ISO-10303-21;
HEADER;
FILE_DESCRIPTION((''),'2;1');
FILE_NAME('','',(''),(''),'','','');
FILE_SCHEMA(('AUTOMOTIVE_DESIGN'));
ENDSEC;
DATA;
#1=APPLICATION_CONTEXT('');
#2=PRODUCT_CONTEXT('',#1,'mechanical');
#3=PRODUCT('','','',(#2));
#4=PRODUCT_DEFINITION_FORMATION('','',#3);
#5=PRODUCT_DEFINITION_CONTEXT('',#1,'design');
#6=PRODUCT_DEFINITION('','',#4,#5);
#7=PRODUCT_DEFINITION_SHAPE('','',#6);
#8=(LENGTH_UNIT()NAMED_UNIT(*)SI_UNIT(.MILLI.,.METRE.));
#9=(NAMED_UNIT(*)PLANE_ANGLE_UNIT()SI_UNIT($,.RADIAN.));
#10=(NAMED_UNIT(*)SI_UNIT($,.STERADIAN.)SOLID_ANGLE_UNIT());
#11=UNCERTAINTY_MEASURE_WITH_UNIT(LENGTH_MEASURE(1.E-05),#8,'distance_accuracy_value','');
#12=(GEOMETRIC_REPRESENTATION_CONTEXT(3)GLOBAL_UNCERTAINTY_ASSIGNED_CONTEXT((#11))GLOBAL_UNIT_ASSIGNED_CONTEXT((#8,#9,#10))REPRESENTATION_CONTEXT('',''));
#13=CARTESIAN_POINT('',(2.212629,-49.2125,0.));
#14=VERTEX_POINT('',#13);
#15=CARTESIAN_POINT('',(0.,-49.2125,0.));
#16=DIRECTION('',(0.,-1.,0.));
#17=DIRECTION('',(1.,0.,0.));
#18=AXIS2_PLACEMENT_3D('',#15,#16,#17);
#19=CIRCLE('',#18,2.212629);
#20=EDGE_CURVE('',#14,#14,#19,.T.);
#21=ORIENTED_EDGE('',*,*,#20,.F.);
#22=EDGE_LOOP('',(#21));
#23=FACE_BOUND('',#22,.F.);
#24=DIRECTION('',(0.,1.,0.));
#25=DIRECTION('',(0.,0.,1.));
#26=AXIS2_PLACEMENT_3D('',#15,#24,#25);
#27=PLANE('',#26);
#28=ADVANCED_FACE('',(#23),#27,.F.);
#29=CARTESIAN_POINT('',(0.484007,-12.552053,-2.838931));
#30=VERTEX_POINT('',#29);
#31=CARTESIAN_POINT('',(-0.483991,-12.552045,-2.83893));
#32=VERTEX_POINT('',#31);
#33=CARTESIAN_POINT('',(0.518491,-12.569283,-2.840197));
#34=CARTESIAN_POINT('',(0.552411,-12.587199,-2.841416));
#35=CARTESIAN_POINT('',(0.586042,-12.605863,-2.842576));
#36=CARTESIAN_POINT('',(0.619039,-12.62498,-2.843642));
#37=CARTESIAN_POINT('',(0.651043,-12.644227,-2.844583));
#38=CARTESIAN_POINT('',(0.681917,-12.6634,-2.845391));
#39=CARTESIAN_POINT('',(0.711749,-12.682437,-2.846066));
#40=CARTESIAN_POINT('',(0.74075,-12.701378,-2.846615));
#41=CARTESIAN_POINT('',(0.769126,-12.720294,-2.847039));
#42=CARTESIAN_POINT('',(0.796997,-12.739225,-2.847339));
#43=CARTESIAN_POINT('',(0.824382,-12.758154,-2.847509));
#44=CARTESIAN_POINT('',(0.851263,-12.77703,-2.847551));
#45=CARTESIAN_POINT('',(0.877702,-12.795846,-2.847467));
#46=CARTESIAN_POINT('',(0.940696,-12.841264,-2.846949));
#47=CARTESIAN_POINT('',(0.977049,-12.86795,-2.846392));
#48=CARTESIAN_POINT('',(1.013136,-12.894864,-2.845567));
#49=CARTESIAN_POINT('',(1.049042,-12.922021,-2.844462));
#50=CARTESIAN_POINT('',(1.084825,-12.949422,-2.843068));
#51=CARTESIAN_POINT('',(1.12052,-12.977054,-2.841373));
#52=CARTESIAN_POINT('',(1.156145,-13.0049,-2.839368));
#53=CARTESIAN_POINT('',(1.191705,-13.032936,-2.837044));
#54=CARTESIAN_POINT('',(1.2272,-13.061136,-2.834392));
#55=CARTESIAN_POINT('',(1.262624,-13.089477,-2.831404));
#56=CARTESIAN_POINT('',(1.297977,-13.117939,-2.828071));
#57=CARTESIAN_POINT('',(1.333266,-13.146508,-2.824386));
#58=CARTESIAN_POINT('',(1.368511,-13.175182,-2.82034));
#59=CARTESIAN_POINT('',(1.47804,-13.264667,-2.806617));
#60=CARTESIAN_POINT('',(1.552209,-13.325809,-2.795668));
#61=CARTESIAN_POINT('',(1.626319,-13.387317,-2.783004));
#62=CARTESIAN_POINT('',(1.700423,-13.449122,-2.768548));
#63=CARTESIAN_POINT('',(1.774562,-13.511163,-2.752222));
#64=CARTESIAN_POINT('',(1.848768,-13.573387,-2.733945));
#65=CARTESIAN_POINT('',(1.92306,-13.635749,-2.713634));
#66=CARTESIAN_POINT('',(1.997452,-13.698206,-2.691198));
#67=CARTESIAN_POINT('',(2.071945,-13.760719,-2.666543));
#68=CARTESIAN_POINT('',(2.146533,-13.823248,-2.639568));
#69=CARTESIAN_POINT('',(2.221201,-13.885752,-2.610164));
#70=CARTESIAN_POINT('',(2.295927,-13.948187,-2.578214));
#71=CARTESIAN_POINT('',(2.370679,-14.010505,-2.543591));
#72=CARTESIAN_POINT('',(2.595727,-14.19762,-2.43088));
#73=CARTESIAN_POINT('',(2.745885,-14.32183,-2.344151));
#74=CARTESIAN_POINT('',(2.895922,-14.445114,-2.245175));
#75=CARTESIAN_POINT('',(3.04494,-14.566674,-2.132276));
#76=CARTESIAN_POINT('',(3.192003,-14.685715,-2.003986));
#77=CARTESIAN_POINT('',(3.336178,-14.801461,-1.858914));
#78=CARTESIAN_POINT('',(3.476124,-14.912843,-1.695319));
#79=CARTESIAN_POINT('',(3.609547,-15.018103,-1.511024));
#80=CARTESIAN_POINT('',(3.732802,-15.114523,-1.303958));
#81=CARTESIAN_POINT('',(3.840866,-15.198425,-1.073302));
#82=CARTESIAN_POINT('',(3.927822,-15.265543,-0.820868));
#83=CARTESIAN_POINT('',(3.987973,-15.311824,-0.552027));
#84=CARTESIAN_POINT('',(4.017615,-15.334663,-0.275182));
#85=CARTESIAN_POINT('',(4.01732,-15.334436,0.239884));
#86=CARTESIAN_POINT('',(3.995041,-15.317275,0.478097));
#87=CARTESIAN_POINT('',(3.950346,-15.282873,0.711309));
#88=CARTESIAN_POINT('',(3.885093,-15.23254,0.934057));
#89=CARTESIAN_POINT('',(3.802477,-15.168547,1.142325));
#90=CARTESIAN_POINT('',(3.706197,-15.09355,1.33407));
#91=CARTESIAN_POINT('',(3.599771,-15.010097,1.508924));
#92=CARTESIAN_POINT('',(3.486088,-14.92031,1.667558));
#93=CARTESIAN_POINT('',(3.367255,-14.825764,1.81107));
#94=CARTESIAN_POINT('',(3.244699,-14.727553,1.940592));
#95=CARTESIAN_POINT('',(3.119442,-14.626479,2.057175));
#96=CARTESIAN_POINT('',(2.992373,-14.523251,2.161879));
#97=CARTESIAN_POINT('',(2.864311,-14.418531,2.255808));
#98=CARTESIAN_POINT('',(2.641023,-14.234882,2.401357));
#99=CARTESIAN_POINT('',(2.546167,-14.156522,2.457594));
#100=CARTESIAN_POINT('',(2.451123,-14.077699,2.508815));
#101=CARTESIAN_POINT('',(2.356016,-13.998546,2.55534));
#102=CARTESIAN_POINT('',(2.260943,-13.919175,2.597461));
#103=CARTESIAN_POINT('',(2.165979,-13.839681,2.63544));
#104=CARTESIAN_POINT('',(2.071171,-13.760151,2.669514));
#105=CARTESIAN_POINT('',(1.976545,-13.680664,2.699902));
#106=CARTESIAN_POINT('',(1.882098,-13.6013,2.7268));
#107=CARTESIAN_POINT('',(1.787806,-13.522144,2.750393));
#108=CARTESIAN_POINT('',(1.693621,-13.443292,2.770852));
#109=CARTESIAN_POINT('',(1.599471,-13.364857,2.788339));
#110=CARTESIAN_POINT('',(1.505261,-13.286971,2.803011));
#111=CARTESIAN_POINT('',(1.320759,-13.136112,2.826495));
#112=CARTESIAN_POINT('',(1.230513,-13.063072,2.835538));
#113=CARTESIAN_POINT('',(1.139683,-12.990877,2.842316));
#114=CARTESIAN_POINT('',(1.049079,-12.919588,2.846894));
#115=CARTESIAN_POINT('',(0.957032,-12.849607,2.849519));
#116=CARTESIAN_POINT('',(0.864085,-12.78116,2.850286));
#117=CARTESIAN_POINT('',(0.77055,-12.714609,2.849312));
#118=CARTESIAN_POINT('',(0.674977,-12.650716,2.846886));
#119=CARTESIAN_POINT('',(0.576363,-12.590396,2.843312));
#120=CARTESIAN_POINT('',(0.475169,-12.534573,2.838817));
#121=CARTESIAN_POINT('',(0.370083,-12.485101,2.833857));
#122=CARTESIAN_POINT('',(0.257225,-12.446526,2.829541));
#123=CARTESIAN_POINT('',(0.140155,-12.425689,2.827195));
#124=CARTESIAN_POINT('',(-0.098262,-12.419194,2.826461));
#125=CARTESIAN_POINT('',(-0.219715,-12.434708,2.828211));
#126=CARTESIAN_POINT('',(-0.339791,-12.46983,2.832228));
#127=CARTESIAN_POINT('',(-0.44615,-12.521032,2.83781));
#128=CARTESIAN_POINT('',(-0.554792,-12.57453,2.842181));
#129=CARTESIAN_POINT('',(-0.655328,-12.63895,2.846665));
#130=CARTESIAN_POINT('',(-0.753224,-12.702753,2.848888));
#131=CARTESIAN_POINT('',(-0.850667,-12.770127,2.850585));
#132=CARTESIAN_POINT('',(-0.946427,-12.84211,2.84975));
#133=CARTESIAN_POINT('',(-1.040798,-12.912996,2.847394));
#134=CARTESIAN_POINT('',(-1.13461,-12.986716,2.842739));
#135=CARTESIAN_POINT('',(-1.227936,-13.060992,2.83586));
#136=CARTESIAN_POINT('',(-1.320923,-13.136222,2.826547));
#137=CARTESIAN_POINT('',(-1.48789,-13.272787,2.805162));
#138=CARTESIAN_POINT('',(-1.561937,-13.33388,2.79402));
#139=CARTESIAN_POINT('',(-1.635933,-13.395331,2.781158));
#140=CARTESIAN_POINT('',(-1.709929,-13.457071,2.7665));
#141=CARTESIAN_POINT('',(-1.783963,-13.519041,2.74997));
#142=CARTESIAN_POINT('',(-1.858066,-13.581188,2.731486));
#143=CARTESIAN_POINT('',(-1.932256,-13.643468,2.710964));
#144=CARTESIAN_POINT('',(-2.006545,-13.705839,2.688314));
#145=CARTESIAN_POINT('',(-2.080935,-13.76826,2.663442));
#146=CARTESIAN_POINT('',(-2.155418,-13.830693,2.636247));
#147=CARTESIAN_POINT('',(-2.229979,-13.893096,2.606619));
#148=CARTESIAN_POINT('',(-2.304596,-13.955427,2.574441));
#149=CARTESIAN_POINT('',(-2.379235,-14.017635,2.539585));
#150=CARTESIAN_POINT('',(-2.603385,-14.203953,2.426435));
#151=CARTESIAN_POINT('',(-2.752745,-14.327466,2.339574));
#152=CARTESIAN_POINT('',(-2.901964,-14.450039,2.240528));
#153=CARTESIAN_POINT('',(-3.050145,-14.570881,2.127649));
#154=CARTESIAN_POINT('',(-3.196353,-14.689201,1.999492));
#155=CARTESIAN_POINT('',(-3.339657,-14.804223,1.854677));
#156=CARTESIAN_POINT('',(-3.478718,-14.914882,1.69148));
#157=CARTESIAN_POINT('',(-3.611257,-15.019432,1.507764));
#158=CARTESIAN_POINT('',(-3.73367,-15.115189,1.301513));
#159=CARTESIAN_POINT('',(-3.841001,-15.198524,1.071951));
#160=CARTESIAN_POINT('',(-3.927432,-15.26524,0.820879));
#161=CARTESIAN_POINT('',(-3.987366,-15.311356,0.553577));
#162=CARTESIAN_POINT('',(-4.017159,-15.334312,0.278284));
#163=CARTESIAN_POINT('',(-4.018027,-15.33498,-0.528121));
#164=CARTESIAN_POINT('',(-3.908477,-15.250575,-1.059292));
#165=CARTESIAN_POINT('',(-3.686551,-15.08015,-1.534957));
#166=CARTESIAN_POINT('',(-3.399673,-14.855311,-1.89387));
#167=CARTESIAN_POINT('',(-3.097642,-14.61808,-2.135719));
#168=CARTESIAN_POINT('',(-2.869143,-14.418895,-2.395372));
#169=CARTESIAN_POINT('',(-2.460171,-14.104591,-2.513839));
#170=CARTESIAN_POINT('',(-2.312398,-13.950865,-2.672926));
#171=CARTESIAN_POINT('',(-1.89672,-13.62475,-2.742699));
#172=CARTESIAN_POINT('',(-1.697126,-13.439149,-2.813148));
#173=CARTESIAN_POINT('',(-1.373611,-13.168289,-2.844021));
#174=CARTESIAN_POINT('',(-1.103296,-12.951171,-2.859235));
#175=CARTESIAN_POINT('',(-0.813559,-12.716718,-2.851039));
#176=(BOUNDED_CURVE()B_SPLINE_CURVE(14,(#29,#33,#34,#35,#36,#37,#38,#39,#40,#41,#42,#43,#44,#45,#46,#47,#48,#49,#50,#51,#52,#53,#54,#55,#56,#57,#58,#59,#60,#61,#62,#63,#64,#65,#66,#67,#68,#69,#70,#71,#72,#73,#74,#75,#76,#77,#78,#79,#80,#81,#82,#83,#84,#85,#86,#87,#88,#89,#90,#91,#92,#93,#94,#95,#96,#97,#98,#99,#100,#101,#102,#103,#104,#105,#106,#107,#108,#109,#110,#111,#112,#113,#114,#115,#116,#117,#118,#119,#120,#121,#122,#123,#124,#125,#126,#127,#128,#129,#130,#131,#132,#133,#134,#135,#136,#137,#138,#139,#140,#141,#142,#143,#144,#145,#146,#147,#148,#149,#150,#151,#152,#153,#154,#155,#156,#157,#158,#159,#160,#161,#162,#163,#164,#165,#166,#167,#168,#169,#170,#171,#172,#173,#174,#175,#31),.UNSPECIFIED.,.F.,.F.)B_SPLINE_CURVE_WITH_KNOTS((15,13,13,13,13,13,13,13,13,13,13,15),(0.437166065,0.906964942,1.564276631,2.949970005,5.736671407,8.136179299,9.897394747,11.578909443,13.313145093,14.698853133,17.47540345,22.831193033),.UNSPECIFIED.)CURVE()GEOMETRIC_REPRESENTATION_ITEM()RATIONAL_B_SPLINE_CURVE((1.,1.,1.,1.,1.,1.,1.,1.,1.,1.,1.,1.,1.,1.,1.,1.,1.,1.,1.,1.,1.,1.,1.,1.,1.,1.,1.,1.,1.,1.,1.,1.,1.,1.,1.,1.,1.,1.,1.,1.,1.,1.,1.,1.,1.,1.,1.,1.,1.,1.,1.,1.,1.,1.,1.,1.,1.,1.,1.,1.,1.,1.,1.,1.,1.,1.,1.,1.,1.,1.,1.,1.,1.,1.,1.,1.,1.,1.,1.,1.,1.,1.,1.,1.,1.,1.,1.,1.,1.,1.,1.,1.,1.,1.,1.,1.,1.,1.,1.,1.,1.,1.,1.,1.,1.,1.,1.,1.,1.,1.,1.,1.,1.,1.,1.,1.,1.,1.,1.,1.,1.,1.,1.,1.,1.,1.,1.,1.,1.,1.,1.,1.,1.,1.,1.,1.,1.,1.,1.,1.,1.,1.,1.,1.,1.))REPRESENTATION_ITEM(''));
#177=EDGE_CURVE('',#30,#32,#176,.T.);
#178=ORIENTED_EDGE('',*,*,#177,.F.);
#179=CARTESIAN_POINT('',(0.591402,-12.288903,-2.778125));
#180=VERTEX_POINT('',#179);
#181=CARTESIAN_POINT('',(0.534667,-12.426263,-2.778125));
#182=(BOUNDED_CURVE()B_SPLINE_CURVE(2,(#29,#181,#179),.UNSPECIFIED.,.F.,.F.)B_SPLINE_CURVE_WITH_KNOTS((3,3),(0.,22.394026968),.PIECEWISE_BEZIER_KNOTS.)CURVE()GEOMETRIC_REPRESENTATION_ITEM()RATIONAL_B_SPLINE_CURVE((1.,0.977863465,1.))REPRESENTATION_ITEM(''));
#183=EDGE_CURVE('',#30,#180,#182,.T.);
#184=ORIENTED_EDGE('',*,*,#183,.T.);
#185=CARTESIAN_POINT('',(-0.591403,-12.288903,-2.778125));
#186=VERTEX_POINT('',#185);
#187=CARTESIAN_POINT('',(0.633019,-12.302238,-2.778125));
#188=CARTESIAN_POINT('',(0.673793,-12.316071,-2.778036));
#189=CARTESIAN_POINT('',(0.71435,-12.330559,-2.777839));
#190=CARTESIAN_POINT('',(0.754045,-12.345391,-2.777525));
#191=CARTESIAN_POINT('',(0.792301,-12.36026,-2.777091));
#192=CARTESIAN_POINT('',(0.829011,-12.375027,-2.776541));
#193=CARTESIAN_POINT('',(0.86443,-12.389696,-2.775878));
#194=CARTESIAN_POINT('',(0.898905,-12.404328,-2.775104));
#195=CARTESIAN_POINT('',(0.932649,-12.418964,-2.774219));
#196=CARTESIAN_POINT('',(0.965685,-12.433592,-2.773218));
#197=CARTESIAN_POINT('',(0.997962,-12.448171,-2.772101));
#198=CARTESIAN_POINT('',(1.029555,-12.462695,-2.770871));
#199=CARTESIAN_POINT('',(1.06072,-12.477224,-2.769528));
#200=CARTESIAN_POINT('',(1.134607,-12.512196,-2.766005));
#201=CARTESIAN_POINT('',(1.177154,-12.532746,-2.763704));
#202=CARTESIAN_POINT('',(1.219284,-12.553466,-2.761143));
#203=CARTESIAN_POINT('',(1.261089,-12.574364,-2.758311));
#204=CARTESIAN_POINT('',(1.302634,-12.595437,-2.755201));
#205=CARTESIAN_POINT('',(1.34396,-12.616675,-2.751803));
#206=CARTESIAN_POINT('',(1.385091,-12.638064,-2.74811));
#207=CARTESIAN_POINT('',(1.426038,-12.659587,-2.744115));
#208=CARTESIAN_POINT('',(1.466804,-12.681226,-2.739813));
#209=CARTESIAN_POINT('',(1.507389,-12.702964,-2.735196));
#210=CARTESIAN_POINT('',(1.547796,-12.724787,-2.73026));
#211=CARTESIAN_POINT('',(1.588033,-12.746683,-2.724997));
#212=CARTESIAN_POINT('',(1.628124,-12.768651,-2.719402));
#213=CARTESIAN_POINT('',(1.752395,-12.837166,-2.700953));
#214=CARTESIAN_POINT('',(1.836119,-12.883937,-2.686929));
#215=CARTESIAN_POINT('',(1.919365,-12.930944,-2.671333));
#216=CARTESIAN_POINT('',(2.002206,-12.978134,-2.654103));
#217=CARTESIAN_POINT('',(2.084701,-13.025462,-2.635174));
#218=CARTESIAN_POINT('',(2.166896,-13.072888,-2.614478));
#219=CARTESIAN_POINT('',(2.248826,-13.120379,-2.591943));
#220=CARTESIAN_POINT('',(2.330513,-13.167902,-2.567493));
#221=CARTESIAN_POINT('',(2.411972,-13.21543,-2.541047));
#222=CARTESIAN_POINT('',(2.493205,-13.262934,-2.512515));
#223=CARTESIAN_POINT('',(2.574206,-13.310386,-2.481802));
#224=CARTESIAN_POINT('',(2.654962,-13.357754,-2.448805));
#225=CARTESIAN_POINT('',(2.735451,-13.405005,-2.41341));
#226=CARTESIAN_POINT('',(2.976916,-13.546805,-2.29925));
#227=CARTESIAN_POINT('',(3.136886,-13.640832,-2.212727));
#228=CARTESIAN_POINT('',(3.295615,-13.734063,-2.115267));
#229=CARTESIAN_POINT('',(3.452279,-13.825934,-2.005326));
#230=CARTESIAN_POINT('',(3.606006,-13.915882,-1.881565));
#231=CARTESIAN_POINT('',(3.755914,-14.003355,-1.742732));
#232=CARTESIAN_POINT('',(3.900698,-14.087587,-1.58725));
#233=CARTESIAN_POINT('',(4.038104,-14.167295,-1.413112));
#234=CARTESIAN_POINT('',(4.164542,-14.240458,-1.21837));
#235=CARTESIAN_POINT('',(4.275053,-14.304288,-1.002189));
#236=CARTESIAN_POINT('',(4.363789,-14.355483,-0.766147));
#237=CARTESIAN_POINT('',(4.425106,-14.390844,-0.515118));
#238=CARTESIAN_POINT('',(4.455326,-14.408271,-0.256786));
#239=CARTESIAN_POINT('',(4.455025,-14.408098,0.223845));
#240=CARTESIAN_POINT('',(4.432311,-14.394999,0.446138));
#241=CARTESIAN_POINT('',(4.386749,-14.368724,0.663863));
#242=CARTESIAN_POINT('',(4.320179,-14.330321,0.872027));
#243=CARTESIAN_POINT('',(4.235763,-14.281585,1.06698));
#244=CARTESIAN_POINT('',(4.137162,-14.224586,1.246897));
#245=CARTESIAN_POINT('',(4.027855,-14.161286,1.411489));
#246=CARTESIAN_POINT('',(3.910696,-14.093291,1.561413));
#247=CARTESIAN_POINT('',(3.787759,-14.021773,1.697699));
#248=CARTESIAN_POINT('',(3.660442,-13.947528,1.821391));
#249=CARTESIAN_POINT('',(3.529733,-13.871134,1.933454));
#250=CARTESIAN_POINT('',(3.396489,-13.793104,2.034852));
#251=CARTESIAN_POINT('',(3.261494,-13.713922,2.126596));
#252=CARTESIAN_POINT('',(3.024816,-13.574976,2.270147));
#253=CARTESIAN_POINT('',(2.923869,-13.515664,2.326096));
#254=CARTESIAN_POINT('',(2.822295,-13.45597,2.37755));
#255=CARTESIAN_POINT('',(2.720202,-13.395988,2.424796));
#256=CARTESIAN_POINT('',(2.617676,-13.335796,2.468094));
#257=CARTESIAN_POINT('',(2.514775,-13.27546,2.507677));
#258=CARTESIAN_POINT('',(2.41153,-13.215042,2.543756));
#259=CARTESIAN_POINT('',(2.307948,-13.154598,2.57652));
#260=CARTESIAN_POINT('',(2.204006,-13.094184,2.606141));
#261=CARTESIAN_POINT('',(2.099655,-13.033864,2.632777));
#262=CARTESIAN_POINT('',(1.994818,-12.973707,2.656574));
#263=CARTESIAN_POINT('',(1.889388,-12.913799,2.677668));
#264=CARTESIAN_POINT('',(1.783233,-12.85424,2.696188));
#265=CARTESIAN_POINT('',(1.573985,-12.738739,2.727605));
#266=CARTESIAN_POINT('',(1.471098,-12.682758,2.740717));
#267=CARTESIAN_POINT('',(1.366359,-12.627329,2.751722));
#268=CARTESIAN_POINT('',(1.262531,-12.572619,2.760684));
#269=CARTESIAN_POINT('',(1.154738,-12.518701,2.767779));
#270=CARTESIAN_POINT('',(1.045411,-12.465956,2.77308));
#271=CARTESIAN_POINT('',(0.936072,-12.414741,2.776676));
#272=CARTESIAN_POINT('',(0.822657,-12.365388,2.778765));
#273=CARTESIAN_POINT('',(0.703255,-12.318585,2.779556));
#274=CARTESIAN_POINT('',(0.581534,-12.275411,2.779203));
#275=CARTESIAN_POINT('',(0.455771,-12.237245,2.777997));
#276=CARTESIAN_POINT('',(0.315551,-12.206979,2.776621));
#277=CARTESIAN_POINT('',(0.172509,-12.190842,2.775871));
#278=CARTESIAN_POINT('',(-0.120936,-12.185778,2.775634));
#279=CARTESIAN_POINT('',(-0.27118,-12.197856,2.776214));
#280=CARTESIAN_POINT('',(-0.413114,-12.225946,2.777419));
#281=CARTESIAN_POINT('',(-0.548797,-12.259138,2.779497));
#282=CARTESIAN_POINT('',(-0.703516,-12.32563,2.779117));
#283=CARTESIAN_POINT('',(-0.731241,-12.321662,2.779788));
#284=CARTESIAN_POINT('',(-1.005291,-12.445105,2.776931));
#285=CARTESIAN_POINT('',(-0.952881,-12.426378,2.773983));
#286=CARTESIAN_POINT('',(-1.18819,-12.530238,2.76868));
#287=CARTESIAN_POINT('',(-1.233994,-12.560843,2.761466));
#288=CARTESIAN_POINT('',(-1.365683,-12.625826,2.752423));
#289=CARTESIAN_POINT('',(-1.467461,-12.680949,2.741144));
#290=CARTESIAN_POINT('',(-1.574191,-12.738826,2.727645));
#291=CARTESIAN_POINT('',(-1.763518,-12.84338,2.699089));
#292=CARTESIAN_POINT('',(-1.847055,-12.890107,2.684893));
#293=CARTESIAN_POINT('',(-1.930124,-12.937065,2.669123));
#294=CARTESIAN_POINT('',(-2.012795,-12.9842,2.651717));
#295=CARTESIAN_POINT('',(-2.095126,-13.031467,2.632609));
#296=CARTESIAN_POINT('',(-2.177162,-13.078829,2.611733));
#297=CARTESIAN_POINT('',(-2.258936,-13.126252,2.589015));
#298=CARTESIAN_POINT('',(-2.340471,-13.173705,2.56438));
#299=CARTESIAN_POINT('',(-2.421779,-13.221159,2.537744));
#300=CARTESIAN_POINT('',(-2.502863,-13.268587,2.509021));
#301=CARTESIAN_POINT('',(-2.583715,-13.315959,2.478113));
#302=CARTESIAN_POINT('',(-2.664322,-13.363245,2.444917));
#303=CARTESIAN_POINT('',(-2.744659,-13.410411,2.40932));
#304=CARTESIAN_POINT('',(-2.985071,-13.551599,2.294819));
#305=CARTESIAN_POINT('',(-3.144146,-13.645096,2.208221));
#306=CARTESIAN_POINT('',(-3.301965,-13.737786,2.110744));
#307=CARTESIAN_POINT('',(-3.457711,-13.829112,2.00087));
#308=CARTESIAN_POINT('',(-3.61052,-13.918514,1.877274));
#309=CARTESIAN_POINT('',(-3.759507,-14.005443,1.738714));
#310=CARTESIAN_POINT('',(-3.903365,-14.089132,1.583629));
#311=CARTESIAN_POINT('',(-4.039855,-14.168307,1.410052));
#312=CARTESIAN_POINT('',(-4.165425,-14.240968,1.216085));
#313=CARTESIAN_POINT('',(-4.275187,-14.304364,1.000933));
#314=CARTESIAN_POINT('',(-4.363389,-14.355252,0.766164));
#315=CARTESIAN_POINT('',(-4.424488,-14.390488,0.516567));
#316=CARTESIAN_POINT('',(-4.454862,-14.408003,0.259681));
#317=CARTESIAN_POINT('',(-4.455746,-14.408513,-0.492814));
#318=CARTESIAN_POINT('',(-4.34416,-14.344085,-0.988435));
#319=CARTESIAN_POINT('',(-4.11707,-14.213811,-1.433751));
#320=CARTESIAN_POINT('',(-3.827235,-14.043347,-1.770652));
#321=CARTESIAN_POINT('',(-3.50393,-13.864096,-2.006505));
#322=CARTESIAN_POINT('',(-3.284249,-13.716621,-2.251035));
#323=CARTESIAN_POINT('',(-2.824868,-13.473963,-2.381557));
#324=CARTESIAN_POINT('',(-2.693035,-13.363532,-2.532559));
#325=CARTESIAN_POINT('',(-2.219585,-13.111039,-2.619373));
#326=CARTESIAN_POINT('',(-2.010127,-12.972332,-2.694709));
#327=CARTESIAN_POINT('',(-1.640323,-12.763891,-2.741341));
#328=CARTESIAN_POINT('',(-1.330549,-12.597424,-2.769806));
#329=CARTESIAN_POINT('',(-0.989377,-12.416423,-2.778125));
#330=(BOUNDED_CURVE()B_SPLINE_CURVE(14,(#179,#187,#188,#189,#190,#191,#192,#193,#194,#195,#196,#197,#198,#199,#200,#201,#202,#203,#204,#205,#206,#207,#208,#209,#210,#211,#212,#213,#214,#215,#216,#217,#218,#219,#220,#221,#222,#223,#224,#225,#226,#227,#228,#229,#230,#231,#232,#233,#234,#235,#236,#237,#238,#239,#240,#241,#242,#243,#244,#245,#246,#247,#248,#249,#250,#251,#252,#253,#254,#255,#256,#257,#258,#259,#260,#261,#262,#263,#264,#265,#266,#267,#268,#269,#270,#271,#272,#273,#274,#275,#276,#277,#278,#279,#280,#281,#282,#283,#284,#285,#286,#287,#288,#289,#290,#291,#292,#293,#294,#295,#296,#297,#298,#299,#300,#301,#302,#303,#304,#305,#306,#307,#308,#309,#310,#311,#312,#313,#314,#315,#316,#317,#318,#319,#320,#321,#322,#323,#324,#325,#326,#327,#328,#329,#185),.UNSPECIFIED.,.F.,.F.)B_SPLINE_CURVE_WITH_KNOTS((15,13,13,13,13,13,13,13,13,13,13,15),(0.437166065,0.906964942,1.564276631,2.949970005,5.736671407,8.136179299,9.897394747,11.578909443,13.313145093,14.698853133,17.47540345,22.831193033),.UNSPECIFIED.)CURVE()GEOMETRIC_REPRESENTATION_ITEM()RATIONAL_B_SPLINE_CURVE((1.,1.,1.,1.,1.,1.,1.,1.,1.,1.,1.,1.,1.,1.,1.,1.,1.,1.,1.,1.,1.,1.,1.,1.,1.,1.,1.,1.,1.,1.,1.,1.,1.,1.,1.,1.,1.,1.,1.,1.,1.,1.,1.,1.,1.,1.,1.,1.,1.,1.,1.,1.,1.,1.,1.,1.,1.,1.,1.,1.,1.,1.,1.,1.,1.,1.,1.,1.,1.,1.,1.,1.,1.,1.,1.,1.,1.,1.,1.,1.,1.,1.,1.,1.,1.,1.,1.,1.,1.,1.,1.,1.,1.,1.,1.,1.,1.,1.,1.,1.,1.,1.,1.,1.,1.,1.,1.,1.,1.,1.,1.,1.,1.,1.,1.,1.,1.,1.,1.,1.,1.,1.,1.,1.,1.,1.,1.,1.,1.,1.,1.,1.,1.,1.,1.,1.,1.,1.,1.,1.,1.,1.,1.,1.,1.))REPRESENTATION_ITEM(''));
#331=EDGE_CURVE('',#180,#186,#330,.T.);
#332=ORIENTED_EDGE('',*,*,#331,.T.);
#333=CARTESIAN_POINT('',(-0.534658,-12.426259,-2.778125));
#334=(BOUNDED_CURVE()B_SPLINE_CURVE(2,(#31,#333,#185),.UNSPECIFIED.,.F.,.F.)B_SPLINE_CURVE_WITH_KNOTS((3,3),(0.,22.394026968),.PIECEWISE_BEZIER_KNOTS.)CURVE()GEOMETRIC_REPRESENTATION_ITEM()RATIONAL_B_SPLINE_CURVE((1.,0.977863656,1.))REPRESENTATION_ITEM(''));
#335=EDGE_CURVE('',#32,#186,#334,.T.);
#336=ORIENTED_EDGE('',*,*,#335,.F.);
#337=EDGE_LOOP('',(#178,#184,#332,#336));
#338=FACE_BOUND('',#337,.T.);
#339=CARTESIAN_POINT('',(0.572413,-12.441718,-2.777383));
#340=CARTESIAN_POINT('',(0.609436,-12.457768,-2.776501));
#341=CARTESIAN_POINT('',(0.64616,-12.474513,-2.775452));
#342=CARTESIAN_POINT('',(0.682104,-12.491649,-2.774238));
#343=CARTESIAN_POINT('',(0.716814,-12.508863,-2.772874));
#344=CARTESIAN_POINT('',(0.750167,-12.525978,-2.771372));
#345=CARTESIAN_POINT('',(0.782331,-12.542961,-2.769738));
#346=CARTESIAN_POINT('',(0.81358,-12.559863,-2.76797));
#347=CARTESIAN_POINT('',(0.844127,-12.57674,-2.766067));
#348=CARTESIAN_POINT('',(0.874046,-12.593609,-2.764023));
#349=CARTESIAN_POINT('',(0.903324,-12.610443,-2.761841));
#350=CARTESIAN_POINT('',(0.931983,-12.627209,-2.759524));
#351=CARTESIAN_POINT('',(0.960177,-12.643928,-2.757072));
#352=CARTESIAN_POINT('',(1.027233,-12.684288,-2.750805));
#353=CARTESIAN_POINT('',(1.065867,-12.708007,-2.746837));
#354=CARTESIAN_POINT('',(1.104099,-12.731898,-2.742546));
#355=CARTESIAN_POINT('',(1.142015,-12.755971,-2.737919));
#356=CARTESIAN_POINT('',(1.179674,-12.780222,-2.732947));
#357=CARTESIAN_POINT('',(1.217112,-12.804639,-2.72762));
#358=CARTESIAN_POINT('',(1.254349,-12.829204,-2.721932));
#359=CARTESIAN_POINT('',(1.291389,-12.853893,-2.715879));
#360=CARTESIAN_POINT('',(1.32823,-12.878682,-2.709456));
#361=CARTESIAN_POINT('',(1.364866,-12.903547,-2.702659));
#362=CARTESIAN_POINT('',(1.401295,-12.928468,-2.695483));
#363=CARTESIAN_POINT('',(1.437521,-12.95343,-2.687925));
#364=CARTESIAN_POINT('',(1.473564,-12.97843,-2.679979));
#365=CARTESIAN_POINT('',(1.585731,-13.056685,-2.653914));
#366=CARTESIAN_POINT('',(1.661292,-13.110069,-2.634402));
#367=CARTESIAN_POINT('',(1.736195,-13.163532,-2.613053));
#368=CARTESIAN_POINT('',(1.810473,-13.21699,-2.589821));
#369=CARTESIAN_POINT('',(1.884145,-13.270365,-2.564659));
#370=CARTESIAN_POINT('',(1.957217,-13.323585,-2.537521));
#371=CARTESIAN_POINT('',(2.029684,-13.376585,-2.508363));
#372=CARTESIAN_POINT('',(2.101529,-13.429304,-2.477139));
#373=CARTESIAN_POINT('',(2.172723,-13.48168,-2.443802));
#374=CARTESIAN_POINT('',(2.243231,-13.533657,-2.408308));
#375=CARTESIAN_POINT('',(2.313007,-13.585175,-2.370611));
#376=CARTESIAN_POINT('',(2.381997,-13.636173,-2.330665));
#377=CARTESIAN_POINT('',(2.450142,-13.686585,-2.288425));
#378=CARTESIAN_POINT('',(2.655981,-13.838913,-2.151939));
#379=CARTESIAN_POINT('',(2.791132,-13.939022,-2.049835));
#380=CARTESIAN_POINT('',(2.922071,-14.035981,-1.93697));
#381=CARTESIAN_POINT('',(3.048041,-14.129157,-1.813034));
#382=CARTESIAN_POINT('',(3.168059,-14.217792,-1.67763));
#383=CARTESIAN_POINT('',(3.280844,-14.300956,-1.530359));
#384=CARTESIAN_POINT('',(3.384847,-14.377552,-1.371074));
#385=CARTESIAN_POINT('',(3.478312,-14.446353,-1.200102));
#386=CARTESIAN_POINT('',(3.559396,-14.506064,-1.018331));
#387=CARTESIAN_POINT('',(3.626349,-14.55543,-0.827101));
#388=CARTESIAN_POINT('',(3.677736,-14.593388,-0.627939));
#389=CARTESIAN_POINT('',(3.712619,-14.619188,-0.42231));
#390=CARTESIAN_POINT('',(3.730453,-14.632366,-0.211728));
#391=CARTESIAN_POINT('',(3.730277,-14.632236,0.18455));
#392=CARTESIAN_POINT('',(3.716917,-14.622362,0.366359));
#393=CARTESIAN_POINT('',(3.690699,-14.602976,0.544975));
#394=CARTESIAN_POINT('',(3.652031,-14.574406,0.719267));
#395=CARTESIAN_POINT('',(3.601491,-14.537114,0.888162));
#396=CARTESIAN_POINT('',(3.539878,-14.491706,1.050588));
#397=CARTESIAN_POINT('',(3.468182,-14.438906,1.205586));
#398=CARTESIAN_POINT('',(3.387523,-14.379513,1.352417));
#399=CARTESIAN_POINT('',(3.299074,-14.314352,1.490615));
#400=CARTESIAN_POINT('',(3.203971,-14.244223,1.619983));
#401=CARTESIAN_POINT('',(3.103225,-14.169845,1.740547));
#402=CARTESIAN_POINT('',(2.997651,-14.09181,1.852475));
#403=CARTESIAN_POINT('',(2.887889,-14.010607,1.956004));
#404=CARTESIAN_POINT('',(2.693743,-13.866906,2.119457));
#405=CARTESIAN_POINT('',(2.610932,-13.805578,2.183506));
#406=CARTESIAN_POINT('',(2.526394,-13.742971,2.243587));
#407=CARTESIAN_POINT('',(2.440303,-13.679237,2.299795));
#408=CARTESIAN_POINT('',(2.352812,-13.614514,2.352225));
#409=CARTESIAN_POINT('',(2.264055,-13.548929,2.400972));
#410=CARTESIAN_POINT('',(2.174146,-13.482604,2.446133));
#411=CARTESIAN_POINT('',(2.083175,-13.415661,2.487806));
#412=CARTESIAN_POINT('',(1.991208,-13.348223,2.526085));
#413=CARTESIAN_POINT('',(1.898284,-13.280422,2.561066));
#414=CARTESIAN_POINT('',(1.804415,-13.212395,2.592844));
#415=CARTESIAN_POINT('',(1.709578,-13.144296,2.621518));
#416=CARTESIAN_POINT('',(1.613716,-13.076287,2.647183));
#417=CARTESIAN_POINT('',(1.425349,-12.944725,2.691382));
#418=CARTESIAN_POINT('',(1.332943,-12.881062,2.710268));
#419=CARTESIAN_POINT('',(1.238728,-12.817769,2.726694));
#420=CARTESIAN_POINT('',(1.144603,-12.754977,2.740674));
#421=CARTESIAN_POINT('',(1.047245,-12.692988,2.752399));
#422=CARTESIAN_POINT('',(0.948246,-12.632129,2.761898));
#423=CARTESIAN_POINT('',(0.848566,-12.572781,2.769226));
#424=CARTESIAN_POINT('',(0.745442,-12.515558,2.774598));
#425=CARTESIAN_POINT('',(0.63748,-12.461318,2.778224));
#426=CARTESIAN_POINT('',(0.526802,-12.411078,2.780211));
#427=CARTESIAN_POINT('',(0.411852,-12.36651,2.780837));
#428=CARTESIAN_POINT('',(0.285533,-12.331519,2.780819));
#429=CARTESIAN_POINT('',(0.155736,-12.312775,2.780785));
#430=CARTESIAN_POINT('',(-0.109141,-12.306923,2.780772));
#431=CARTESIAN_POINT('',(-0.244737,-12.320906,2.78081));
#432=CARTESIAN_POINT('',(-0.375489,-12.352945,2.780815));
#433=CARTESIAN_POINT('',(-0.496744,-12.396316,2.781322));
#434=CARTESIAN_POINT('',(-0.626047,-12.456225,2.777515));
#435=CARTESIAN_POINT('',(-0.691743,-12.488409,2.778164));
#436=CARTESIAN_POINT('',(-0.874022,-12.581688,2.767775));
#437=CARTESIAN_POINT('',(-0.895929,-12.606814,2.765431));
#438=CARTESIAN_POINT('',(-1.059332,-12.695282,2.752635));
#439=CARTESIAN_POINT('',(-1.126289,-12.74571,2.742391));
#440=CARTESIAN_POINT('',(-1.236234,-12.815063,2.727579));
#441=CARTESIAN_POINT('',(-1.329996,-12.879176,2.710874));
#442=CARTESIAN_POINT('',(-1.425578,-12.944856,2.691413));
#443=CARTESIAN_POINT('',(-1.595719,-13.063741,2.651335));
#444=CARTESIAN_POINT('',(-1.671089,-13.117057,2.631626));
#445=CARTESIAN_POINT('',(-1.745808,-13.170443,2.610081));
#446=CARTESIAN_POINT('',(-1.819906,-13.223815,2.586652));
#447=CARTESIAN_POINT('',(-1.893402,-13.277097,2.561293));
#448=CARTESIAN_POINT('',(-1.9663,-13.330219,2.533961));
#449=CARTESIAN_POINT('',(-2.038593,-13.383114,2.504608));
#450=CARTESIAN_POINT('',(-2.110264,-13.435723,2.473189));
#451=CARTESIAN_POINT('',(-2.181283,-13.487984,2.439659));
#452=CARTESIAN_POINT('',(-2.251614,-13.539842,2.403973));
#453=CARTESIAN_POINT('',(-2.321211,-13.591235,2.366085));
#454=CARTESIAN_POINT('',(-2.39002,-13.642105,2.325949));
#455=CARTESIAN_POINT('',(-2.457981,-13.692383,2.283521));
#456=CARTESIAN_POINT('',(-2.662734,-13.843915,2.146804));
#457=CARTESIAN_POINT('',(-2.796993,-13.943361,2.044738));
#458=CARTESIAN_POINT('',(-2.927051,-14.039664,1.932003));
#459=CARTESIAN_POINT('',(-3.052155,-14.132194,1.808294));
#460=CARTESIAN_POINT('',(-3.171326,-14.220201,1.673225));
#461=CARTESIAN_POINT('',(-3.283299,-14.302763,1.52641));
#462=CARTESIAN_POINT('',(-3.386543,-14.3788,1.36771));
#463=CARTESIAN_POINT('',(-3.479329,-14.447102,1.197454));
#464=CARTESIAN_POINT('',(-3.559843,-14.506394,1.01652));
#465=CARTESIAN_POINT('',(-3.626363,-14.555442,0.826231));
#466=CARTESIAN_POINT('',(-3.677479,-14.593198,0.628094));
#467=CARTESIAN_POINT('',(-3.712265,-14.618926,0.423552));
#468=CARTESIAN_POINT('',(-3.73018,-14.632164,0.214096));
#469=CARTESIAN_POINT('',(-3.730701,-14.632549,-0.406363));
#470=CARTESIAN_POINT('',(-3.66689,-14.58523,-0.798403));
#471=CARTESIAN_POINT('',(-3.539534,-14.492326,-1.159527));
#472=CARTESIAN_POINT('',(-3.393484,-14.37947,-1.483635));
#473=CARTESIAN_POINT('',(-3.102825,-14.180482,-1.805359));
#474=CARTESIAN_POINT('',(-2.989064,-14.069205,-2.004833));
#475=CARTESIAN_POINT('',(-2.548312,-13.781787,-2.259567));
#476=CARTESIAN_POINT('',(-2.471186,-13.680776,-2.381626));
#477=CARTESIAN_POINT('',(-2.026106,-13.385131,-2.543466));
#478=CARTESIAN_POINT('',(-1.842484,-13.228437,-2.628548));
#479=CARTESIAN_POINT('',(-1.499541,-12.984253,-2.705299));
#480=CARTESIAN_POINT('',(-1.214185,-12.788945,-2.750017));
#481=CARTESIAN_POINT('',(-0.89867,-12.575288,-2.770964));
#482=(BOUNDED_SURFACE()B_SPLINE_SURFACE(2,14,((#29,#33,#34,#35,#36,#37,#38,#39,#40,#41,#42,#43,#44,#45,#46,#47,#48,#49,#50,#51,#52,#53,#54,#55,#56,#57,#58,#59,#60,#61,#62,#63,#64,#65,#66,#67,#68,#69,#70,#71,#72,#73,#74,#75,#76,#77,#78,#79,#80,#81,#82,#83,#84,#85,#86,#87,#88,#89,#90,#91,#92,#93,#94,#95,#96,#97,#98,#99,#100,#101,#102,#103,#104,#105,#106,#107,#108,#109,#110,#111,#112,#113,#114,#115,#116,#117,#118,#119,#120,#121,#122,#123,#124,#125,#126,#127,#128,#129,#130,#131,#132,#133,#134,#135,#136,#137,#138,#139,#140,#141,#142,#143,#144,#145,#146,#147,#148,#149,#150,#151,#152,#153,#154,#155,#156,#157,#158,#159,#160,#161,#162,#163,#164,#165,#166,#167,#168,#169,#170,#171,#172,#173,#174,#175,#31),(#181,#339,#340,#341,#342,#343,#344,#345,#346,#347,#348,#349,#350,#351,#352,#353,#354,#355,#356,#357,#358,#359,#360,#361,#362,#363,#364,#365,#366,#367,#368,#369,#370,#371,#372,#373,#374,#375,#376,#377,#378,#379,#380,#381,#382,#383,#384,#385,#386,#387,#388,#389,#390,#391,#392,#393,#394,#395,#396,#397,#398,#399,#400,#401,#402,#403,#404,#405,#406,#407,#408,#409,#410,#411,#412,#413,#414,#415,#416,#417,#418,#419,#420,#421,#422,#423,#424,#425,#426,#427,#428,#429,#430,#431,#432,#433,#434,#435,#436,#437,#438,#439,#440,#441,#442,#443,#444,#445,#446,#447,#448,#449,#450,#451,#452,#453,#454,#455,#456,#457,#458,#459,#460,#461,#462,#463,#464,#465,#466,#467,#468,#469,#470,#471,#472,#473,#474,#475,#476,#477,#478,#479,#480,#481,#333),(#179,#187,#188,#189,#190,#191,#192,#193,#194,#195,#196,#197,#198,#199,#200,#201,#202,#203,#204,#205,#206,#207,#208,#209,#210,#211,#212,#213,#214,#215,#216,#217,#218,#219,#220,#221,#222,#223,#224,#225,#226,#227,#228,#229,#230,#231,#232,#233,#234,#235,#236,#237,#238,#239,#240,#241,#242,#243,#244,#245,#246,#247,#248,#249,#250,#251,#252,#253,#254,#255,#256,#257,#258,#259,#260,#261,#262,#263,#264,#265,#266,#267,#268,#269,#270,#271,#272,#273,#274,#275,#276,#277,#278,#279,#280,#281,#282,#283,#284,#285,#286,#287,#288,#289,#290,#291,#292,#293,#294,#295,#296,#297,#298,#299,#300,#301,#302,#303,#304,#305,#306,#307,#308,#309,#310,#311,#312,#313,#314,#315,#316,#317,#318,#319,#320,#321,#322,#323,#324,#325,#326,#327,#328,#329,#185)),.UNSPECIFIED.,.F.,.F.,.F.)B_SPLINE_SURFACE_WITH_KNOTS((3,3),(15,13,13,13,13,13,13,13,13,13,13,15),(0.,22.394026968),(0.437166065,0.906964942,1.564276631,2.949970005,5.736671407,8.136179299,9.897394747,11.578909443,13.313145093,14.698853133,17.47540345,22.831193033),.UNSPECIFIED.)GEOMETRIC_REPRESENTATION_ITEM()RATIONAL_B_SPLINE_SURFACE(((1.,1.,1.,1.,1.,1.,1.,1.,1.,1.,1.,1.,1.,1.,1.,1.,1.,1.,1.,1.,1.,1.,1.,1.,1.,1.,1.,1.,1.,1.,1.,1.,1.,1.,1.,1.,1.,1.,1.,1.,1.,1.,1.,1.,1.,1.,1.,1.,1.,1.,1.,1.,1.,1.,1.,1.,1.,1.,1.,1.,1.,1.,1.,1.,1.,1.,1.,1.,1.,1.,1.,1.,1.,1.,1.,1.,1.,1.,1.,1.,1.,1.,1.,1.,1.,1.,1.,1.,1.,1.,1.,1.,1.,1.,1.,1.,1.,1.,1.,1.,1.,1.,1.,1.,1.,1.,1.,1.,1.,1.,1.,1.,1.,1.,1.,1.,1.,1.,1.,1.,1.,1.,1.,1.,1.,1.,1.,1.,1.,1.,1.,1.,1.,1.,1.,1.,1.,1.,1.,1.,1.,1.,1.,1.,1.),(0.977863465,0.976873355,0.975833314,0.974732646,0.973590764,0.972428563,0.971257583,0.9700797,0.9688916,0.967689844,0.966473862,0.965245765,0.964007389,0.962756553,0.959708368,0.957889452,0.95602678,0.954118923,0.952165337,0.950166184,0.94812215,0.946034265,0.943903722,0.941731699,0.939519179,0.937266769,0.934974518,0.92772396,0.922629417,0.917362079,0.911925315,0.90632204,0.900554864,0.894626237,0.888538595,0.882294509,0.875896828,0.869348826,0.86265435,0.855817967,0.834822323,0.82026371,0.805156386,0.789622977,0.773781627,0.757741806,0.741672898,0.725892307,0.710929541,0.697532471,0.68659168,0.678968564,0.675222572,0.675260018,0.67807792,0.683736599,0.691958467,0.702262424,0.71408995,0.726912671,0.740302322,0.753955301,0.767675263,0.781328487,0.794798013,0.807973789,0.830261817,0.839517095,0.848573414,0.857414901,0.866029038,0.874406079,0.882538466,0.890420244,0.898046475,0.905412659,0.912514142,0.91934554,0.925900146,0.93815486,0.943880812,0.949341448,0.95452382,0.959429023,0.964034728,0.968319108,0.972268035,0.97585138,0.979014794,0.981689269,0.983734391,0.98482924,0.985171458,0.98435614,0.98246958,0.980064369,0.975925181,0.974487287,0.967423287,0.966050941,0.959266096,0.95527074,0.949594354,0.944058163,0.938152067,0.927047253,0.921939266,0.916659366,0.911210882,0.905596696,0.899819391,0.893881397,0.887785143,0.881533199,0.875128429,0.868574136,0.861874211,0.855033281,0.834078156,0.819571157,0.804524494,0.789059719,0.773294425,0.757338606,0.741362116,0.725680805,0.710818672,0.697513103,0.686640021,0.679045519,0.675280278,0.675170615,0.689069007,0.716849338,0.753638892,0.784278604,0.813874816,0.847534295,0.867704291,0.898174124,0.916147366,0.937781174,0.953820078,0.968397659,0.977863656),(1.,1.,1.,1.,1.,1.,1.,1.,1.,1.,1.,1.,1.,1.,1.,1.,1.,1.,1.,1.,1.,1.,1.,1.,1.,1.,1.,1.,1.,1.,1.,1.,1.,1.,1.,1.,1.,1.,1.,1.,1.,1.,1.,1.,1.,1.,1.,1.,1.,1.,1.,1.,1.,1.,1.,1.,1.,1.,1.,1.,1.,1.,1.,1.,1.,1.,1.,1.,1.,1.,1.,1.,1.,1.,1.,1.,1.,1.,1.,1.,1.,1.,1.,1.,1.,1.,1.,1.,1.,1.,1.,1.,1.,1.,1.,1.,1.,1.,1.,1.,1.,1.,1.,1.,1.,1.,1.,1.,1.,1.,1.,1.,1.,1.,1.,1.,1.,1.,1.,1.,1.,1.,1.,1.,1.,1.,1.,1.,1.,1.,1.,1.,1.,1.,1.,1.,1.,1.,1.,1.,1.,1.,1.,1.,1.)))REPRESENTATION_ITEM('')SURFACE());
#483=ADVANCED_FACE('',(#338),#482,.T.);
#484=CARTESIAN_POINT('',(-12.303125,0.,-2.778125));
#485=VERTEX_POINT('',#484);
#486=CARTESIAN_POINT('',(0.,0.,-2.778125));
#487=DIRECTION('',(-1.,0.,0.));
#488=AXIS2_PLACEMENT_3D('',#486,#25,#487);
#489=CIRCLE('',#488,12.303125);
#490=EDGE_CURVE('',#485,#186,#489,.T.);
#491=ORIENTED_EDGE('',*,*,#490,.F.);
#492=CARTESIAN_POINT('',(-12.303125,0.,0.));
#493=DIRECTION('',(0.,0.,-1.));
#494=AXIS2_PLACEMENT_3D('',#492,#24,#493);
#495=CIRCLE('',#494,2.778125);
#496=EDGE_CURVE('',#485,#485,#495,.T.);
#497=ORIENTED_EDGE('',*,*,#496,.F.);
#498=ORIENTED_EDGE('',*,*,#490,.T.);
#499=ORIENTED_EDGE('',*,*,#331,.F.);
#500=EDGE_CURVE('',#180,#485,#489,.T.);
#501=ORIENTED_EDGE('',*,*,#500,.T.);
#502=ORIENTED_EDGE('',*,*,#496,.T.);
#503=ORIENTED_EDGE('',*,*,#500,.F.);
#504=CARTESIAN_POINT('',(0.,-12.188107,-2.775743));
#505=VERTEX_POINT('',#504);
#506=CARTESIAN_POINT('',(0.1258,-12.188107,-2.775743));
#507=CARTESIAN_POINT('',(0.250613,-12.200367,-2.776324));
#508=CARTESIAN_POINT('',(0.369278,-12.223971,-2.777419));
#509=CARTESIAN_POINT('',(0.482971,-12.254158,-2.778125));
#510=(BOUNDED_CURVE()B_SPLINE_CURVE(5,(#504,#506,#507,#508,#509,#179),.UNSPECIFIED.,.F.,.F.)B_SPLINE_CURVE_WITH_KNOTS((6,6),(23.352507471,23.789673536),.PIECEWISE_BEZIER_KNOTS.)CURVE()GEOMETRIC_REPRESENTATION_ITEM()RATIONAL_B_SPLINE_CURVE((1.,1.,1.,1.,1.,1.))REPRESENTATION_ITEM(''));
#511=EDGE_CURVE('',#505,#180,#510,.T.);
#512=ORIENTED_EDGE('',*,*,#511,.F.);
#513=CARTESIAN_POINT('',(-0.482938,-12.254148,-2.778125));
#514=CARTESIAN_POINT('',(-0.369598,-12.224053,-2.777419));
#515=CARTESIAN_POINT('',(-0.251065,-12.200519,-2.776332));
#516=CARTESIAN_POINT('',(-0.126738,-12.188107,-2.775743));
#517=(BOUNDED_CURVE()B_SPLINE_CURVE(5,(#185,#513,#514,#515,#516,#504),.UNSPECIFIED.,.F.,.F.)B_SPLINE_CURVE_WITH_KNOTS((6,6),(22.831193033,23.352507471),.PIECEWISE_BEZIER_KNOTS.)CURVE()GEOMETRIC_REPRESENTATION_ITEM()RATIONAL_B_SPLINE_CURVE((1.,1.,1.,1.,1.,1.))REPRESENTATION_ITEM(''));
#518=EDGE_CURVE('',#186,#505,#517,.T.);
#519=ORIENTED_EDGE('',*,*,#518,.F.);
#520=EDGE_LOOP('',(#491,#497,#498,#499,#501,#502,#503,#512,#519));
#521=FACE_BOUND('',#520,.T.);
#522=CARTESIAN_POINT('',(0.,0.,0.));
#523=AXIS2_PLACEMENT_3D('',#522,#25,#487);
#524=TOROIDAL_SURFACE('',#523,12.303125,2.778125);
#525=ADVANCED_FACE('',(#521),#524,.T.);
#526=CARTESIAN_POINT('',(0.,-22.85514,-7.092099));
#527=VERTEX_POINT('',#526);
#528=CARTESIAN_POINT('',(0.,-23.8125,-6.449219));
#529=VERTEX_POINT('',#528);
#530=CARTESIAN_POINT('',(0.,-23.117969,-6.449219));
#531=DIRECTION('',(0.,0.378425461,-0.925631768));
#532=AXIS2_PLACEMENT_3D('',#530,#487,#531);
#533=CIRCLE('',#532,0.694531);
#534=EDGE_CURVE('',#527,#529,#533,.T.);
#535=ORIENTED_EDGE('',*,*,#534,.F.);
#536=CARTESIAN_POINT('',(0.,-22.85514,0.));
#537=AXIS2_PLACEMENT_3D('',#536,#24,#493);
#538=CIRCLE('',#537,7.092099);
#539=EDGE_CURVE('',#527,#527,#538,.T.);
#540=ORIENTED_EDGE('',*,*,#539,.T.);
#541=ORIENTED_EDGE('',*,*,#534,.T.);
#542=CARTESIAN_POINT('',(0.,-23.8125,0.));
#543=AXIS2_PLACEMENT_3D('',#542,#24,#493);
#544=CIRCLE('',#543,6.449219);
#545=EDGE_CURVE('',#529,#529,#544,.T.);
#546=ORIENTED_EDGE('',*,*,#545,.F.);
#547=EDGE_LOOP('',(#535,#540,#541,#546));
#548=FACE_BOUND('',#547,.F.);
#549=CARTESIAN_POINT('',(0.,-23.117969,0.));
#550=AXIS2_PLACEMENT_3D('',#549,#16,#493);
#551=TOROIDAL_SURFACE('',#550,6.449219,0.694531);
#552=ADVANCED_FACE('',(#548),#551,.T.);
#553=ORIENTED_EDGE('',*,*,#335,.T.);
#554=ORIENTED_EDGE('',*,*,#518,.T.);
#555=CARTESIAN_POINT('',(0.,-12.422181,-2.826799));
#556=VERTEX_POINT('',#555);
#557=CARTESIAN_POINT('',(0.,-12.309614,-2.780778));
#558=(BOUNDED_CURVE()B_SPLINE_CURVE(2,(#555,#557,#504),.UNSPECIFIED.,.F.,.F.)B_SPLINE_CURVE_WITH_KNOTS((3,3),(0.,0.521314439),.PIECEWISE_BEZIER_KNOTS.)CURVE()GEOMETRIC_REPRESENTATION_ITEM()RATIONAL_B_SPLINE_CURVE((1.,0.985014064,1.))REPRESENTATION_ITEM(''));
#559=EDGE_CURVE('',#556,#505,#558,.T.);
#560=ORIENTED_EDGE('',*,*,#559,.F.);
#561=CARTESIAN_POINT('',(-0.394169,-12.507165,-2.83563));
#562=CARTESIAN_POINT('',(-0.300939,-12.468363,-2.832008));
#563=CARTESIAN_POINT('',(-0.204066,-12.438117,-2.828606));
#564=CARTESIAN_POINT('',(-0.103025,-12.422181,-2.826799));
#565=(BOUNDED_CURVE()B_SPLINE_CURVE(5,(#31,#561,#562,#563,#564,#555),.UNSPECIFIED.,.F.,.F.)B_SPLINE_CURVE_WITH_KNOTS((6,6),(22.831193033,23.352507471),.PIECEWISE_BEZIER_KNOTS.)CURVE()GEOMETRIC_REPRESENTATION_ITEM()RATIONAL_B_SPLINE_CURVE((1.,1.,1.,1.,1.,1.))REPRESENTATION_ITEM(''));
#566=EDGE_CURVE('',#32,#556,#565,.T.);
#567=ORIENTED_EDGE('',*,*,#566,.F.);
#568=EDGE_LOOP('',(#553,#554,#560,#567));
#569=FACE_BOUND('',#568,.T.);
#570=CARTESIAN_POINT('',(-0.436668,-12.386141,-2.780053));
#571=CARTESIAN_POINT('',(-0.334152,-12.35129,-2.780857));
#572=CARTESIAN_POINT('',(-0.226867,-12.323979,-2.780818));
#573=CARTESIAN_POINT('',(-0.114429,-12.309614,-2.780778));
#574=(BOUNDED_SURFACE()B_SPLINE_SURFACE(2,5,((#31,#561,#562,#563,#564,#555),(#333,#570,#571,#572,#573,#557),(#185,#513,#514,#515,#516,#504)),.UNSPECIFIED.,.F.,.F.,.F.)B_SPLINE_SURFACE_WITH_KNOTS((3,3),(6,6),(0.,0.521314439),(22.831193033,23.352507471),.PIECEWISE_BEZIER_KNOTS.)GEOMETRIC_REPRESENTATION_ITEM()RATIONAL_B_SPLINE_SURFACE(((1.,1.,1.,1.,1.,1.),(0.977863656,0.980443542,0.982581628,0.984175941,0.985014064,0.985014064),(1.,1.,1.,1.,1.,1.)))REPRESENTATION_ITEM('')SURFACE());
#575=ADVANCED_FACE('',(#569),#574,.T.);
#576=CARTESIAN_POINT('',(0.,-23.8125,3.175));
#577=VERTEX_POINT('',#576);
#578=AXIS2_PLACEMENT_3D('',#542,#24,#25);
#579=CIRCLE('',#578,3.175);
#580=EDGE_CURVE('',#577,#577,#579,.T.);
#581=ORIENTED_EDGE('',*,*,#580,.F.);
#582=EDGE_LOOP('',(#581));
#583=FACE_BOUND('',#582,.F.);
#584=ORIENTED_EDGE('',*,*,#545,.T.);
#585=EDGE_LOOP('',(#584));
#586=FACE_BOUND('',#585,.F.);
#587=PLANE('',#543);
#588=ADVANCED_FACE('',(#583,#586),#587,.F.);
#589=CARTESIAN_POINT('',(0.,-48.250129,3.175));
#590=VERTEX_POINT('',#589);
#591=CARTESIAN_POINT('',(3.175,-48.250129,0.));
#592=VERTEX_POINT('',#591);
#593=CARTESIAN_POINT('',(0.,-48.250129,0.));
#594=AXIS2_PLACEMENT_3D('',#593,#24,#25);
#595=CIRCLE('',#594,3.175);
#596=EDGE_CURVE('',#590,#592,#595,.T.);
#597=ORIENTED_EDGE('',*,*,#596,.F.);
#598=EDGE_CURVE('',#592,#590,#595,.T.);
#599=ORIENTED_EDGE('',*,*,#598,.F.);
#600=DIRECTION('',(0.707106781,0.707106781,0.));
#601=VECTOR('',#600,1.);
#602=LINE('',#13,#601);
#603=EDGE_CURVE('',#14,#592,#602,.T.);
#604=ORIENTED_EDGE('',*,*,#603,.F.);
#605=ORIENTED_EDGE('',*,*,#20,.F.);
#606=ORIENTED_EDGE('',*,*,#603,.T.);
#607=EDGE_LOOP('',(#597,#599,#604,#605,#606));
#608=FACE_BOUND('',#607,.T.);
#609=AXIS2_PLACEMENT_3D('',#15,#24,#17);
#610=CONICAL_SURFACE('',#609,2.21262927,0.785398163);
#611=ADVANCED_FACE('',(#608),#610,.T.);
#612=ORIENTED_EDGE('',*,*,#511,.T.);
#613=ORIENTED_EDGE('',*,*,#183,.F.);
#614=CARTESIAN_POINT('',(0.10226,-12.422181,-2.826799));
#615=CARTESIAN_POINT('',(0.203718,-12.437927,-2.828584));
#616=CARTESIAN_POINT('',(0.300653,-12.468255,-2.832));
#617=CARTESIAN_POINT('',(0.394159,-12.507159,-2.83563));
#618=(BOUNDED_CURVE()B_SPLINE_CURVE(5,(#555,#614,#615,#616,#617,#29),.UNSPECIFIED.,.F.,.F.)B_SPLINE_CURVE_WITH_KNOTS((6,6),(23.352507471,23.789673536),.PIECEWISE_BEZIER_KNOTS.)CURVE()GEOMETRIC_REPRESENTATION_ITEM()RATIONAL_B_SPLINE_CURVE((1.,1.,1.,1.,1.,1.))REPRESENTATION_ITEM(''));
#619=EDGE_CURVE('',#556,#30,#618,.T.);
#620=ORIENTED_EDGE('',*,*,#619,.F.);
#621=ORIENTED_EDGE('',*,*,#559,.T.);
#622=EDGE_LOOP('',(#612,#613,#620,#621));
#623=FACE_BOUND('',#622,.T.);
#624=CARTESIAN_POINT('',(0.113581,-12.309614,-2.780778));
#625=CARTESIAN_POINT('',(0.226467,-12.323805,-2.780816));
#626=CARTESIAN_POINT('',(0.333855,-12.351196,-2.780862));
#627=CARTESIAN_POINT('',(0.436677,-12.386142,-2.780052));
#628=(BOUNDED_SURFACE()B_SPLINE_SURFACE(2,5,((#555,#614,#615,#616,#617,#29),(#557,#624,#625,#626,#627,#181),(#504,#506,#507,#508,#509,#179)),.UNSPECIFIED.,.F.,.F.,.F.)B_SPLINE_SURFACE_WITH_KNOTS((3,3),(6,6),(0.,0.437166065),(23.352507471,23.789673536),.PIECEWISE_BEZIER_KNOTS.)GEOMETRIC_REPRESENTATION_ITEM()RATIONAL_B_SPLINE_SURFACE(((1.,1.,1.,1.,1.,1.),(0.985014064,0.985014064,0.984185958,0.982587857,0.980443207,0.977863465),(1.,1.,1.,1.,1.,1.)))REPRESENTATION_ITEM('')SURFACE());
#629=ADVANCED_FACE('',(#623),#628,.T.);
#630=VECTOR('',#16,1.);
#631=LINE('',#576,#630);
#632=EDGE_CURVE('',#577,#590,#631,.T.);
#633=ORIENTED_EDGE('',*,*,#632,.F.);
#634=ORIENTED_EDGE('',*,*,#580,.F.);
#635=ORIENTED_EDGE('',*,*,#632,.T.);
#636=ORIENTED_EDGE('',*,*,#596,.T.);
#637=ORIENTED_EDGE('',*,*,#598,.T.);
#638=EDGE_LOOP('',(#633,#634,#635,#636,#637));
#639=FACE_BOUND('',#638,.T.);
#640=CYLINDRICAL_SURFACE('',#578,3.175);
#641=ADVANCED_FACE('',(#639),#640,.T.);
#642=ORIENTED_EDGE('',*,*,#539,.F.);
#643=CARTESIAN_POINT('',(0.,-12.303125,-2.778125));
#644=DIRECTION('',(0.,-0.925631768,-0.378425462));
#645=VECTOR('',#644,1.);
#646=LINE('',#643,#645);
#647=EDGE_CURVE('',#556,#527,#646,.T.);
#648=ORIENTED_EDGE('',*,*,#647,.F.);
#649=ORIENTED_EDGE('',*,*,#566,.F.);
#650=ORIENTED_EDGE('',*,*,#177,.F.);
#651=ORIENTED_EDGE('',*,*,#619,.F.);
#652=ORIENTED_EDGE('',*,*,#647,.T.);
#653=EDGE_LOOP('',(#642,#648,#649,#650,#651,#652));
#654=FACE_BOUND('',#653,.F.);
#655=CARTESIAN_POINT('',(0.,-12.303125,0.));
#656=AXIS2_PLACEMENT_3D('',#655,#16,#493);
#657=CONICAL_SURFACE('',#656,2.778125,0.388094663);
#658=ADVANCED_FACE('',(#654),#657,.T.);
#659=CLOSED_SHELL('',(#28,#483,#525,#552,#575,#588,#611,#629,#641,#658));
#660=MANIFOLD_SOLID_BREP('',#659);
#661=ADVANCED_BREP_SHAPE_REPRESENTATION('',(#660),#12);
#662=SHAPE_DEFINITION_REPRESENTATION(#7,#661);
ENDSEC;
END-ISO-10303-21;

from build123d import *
from build123d.topology import SkipClean

# Parameters (mm, degrees)
BOSS_EXTRUDE1_START = -23.8125
SKETCH2_R           = 3.175
BOSS_EXTRUDE1_DEPTH = 25.4
SKETCH5_OUTSIDE_W   = 67.326
SKETCH5_OUTSIDE_H   = 67.326
SKETCH5_OUTSIDE_R   = 2.21262927
CUT_EXTRUDE1_DEPTH  = 26.793821935
CUT_EXTRUDE1_DRAFT  = -45
SKETCH6_R           = 2.778125
FILLET1_R           = 0.69453125


with BuildPart() as part:
    # Sketch2 → Boss-Extrude1 (new body)
    with BuildSketch(Plane(origin=(0, 0, 0), x_dir=(1, 0, 0), z_dir=(0, 1, 0)).offset(BOSS_EXTRUDE1_START)):
        with Locations(Location((0, 0, 0), (0, 0, 270))):
            Circle(SKETCH2_R)
    extrude(amount=-BOSS_EXTRUDE1_DEPTH)


with BuildPart() as cut_extrude1_tool:
    # Sketch5 outside → Cut-Extrude1 (with draft: the straight prism first)
    with BuildSketch(Plane.XZ.offset(49.2125)):
        Rectangle(SKETCH5_OUTSIDE_W, SKETCH5_OUTSIDE_H)
        Circle(SKETCH5_OUTSIDE_R, mode=Mode.SUBTRACT)
    extrude(amount=-CUT_EXTRUDE1_DEPTH)
    # Cut-Extrude1: the draft: its side faces are tilted about the plane it starts from
    cut_extrude1_sides = [cut_extrude1_tool.faces().sort_by_distance(p)[0] for p in [
        (0, -35.815589033, -33.663),
        (33.663, -35.815589033, 0),
        (0, -35.815589033, 33.663),
        (-33.663, -35.815589033, 0),
        (-2.21262927, -35.815589033, 0),
    ]]
    draft(cut_extrude1_sides, Plane.XZ.offset(49.2125), CUT_EXTRUDE1_DRAFT)


with BuildPart() as part_1:
    add(part.part)

    # Cut-Extrude1: cut by cut_extrude1_tool
    add(cut_extrude1_tool.part, mode=Mode.SUBTRACT)



with BuildPart() as body_2:
    # Sketch6 → Revolve1 (revolve)
    with BuildSketch(Plane(origin=(0, 0, 0), x_dir=(0, 0, -1), z_dir=(1, 0, 0)), mode=Mode.PRIVATE) as revolve1_sk:
        with Locations((0, 12.303125)):
            Circle(SKETCH6_R)
    revolve(revolve1_sk.sketch.rotate(Axis((0, 0, -7.63984375), (0, 0, 1)), 90), axis=Axis((0, 0, -7.63984375), (0, 0, 1)))


with BuildPart() as part_2:
    with SkipClean():  # the faces are left unmerged after this step: merging them gives an invalid solid
        add(part_1.part)

        add(body_2.part)  # Revolve2 merges body 2
        # Sketch8 → Revolve2 (revolve)
        with BuildSketch(Plane.XY, mode=Mode.PRIVATE) as revolve2_sk:
            with BuildLine():
                Line((0, -23.8125), (0, -12.303125))
                Line((0, -12.303125), (-2.778125, -12.303125))
                Line((-2.778125, -12.303125), (-7.092098939, -22.855140441))
                ThreePointArc((-7.092098939, -22.855140441), (-7.025810517, -23.505158098), (-6.44921875, -23.8125))
                Line((-6.44921875, -23.8125), (0, -23.8125))
            make_face()
        revolve(revolve2_sk.sketch.rotate(Axis((0, -23.8125, 0), (0, 1, 0)), 270), axis=Axis((0, -23.8125, 0), (0, 1, 0)))

    # Fillet1
    fillet1_edges = [part_2.edges().sort_by_distance(p)[0] for p in [
        (3.723072169, -14.614473483, -6e-09),
    ]]
    fillet(fillet1_edges, radius=FILLET1_R)


solid = part_2.part
